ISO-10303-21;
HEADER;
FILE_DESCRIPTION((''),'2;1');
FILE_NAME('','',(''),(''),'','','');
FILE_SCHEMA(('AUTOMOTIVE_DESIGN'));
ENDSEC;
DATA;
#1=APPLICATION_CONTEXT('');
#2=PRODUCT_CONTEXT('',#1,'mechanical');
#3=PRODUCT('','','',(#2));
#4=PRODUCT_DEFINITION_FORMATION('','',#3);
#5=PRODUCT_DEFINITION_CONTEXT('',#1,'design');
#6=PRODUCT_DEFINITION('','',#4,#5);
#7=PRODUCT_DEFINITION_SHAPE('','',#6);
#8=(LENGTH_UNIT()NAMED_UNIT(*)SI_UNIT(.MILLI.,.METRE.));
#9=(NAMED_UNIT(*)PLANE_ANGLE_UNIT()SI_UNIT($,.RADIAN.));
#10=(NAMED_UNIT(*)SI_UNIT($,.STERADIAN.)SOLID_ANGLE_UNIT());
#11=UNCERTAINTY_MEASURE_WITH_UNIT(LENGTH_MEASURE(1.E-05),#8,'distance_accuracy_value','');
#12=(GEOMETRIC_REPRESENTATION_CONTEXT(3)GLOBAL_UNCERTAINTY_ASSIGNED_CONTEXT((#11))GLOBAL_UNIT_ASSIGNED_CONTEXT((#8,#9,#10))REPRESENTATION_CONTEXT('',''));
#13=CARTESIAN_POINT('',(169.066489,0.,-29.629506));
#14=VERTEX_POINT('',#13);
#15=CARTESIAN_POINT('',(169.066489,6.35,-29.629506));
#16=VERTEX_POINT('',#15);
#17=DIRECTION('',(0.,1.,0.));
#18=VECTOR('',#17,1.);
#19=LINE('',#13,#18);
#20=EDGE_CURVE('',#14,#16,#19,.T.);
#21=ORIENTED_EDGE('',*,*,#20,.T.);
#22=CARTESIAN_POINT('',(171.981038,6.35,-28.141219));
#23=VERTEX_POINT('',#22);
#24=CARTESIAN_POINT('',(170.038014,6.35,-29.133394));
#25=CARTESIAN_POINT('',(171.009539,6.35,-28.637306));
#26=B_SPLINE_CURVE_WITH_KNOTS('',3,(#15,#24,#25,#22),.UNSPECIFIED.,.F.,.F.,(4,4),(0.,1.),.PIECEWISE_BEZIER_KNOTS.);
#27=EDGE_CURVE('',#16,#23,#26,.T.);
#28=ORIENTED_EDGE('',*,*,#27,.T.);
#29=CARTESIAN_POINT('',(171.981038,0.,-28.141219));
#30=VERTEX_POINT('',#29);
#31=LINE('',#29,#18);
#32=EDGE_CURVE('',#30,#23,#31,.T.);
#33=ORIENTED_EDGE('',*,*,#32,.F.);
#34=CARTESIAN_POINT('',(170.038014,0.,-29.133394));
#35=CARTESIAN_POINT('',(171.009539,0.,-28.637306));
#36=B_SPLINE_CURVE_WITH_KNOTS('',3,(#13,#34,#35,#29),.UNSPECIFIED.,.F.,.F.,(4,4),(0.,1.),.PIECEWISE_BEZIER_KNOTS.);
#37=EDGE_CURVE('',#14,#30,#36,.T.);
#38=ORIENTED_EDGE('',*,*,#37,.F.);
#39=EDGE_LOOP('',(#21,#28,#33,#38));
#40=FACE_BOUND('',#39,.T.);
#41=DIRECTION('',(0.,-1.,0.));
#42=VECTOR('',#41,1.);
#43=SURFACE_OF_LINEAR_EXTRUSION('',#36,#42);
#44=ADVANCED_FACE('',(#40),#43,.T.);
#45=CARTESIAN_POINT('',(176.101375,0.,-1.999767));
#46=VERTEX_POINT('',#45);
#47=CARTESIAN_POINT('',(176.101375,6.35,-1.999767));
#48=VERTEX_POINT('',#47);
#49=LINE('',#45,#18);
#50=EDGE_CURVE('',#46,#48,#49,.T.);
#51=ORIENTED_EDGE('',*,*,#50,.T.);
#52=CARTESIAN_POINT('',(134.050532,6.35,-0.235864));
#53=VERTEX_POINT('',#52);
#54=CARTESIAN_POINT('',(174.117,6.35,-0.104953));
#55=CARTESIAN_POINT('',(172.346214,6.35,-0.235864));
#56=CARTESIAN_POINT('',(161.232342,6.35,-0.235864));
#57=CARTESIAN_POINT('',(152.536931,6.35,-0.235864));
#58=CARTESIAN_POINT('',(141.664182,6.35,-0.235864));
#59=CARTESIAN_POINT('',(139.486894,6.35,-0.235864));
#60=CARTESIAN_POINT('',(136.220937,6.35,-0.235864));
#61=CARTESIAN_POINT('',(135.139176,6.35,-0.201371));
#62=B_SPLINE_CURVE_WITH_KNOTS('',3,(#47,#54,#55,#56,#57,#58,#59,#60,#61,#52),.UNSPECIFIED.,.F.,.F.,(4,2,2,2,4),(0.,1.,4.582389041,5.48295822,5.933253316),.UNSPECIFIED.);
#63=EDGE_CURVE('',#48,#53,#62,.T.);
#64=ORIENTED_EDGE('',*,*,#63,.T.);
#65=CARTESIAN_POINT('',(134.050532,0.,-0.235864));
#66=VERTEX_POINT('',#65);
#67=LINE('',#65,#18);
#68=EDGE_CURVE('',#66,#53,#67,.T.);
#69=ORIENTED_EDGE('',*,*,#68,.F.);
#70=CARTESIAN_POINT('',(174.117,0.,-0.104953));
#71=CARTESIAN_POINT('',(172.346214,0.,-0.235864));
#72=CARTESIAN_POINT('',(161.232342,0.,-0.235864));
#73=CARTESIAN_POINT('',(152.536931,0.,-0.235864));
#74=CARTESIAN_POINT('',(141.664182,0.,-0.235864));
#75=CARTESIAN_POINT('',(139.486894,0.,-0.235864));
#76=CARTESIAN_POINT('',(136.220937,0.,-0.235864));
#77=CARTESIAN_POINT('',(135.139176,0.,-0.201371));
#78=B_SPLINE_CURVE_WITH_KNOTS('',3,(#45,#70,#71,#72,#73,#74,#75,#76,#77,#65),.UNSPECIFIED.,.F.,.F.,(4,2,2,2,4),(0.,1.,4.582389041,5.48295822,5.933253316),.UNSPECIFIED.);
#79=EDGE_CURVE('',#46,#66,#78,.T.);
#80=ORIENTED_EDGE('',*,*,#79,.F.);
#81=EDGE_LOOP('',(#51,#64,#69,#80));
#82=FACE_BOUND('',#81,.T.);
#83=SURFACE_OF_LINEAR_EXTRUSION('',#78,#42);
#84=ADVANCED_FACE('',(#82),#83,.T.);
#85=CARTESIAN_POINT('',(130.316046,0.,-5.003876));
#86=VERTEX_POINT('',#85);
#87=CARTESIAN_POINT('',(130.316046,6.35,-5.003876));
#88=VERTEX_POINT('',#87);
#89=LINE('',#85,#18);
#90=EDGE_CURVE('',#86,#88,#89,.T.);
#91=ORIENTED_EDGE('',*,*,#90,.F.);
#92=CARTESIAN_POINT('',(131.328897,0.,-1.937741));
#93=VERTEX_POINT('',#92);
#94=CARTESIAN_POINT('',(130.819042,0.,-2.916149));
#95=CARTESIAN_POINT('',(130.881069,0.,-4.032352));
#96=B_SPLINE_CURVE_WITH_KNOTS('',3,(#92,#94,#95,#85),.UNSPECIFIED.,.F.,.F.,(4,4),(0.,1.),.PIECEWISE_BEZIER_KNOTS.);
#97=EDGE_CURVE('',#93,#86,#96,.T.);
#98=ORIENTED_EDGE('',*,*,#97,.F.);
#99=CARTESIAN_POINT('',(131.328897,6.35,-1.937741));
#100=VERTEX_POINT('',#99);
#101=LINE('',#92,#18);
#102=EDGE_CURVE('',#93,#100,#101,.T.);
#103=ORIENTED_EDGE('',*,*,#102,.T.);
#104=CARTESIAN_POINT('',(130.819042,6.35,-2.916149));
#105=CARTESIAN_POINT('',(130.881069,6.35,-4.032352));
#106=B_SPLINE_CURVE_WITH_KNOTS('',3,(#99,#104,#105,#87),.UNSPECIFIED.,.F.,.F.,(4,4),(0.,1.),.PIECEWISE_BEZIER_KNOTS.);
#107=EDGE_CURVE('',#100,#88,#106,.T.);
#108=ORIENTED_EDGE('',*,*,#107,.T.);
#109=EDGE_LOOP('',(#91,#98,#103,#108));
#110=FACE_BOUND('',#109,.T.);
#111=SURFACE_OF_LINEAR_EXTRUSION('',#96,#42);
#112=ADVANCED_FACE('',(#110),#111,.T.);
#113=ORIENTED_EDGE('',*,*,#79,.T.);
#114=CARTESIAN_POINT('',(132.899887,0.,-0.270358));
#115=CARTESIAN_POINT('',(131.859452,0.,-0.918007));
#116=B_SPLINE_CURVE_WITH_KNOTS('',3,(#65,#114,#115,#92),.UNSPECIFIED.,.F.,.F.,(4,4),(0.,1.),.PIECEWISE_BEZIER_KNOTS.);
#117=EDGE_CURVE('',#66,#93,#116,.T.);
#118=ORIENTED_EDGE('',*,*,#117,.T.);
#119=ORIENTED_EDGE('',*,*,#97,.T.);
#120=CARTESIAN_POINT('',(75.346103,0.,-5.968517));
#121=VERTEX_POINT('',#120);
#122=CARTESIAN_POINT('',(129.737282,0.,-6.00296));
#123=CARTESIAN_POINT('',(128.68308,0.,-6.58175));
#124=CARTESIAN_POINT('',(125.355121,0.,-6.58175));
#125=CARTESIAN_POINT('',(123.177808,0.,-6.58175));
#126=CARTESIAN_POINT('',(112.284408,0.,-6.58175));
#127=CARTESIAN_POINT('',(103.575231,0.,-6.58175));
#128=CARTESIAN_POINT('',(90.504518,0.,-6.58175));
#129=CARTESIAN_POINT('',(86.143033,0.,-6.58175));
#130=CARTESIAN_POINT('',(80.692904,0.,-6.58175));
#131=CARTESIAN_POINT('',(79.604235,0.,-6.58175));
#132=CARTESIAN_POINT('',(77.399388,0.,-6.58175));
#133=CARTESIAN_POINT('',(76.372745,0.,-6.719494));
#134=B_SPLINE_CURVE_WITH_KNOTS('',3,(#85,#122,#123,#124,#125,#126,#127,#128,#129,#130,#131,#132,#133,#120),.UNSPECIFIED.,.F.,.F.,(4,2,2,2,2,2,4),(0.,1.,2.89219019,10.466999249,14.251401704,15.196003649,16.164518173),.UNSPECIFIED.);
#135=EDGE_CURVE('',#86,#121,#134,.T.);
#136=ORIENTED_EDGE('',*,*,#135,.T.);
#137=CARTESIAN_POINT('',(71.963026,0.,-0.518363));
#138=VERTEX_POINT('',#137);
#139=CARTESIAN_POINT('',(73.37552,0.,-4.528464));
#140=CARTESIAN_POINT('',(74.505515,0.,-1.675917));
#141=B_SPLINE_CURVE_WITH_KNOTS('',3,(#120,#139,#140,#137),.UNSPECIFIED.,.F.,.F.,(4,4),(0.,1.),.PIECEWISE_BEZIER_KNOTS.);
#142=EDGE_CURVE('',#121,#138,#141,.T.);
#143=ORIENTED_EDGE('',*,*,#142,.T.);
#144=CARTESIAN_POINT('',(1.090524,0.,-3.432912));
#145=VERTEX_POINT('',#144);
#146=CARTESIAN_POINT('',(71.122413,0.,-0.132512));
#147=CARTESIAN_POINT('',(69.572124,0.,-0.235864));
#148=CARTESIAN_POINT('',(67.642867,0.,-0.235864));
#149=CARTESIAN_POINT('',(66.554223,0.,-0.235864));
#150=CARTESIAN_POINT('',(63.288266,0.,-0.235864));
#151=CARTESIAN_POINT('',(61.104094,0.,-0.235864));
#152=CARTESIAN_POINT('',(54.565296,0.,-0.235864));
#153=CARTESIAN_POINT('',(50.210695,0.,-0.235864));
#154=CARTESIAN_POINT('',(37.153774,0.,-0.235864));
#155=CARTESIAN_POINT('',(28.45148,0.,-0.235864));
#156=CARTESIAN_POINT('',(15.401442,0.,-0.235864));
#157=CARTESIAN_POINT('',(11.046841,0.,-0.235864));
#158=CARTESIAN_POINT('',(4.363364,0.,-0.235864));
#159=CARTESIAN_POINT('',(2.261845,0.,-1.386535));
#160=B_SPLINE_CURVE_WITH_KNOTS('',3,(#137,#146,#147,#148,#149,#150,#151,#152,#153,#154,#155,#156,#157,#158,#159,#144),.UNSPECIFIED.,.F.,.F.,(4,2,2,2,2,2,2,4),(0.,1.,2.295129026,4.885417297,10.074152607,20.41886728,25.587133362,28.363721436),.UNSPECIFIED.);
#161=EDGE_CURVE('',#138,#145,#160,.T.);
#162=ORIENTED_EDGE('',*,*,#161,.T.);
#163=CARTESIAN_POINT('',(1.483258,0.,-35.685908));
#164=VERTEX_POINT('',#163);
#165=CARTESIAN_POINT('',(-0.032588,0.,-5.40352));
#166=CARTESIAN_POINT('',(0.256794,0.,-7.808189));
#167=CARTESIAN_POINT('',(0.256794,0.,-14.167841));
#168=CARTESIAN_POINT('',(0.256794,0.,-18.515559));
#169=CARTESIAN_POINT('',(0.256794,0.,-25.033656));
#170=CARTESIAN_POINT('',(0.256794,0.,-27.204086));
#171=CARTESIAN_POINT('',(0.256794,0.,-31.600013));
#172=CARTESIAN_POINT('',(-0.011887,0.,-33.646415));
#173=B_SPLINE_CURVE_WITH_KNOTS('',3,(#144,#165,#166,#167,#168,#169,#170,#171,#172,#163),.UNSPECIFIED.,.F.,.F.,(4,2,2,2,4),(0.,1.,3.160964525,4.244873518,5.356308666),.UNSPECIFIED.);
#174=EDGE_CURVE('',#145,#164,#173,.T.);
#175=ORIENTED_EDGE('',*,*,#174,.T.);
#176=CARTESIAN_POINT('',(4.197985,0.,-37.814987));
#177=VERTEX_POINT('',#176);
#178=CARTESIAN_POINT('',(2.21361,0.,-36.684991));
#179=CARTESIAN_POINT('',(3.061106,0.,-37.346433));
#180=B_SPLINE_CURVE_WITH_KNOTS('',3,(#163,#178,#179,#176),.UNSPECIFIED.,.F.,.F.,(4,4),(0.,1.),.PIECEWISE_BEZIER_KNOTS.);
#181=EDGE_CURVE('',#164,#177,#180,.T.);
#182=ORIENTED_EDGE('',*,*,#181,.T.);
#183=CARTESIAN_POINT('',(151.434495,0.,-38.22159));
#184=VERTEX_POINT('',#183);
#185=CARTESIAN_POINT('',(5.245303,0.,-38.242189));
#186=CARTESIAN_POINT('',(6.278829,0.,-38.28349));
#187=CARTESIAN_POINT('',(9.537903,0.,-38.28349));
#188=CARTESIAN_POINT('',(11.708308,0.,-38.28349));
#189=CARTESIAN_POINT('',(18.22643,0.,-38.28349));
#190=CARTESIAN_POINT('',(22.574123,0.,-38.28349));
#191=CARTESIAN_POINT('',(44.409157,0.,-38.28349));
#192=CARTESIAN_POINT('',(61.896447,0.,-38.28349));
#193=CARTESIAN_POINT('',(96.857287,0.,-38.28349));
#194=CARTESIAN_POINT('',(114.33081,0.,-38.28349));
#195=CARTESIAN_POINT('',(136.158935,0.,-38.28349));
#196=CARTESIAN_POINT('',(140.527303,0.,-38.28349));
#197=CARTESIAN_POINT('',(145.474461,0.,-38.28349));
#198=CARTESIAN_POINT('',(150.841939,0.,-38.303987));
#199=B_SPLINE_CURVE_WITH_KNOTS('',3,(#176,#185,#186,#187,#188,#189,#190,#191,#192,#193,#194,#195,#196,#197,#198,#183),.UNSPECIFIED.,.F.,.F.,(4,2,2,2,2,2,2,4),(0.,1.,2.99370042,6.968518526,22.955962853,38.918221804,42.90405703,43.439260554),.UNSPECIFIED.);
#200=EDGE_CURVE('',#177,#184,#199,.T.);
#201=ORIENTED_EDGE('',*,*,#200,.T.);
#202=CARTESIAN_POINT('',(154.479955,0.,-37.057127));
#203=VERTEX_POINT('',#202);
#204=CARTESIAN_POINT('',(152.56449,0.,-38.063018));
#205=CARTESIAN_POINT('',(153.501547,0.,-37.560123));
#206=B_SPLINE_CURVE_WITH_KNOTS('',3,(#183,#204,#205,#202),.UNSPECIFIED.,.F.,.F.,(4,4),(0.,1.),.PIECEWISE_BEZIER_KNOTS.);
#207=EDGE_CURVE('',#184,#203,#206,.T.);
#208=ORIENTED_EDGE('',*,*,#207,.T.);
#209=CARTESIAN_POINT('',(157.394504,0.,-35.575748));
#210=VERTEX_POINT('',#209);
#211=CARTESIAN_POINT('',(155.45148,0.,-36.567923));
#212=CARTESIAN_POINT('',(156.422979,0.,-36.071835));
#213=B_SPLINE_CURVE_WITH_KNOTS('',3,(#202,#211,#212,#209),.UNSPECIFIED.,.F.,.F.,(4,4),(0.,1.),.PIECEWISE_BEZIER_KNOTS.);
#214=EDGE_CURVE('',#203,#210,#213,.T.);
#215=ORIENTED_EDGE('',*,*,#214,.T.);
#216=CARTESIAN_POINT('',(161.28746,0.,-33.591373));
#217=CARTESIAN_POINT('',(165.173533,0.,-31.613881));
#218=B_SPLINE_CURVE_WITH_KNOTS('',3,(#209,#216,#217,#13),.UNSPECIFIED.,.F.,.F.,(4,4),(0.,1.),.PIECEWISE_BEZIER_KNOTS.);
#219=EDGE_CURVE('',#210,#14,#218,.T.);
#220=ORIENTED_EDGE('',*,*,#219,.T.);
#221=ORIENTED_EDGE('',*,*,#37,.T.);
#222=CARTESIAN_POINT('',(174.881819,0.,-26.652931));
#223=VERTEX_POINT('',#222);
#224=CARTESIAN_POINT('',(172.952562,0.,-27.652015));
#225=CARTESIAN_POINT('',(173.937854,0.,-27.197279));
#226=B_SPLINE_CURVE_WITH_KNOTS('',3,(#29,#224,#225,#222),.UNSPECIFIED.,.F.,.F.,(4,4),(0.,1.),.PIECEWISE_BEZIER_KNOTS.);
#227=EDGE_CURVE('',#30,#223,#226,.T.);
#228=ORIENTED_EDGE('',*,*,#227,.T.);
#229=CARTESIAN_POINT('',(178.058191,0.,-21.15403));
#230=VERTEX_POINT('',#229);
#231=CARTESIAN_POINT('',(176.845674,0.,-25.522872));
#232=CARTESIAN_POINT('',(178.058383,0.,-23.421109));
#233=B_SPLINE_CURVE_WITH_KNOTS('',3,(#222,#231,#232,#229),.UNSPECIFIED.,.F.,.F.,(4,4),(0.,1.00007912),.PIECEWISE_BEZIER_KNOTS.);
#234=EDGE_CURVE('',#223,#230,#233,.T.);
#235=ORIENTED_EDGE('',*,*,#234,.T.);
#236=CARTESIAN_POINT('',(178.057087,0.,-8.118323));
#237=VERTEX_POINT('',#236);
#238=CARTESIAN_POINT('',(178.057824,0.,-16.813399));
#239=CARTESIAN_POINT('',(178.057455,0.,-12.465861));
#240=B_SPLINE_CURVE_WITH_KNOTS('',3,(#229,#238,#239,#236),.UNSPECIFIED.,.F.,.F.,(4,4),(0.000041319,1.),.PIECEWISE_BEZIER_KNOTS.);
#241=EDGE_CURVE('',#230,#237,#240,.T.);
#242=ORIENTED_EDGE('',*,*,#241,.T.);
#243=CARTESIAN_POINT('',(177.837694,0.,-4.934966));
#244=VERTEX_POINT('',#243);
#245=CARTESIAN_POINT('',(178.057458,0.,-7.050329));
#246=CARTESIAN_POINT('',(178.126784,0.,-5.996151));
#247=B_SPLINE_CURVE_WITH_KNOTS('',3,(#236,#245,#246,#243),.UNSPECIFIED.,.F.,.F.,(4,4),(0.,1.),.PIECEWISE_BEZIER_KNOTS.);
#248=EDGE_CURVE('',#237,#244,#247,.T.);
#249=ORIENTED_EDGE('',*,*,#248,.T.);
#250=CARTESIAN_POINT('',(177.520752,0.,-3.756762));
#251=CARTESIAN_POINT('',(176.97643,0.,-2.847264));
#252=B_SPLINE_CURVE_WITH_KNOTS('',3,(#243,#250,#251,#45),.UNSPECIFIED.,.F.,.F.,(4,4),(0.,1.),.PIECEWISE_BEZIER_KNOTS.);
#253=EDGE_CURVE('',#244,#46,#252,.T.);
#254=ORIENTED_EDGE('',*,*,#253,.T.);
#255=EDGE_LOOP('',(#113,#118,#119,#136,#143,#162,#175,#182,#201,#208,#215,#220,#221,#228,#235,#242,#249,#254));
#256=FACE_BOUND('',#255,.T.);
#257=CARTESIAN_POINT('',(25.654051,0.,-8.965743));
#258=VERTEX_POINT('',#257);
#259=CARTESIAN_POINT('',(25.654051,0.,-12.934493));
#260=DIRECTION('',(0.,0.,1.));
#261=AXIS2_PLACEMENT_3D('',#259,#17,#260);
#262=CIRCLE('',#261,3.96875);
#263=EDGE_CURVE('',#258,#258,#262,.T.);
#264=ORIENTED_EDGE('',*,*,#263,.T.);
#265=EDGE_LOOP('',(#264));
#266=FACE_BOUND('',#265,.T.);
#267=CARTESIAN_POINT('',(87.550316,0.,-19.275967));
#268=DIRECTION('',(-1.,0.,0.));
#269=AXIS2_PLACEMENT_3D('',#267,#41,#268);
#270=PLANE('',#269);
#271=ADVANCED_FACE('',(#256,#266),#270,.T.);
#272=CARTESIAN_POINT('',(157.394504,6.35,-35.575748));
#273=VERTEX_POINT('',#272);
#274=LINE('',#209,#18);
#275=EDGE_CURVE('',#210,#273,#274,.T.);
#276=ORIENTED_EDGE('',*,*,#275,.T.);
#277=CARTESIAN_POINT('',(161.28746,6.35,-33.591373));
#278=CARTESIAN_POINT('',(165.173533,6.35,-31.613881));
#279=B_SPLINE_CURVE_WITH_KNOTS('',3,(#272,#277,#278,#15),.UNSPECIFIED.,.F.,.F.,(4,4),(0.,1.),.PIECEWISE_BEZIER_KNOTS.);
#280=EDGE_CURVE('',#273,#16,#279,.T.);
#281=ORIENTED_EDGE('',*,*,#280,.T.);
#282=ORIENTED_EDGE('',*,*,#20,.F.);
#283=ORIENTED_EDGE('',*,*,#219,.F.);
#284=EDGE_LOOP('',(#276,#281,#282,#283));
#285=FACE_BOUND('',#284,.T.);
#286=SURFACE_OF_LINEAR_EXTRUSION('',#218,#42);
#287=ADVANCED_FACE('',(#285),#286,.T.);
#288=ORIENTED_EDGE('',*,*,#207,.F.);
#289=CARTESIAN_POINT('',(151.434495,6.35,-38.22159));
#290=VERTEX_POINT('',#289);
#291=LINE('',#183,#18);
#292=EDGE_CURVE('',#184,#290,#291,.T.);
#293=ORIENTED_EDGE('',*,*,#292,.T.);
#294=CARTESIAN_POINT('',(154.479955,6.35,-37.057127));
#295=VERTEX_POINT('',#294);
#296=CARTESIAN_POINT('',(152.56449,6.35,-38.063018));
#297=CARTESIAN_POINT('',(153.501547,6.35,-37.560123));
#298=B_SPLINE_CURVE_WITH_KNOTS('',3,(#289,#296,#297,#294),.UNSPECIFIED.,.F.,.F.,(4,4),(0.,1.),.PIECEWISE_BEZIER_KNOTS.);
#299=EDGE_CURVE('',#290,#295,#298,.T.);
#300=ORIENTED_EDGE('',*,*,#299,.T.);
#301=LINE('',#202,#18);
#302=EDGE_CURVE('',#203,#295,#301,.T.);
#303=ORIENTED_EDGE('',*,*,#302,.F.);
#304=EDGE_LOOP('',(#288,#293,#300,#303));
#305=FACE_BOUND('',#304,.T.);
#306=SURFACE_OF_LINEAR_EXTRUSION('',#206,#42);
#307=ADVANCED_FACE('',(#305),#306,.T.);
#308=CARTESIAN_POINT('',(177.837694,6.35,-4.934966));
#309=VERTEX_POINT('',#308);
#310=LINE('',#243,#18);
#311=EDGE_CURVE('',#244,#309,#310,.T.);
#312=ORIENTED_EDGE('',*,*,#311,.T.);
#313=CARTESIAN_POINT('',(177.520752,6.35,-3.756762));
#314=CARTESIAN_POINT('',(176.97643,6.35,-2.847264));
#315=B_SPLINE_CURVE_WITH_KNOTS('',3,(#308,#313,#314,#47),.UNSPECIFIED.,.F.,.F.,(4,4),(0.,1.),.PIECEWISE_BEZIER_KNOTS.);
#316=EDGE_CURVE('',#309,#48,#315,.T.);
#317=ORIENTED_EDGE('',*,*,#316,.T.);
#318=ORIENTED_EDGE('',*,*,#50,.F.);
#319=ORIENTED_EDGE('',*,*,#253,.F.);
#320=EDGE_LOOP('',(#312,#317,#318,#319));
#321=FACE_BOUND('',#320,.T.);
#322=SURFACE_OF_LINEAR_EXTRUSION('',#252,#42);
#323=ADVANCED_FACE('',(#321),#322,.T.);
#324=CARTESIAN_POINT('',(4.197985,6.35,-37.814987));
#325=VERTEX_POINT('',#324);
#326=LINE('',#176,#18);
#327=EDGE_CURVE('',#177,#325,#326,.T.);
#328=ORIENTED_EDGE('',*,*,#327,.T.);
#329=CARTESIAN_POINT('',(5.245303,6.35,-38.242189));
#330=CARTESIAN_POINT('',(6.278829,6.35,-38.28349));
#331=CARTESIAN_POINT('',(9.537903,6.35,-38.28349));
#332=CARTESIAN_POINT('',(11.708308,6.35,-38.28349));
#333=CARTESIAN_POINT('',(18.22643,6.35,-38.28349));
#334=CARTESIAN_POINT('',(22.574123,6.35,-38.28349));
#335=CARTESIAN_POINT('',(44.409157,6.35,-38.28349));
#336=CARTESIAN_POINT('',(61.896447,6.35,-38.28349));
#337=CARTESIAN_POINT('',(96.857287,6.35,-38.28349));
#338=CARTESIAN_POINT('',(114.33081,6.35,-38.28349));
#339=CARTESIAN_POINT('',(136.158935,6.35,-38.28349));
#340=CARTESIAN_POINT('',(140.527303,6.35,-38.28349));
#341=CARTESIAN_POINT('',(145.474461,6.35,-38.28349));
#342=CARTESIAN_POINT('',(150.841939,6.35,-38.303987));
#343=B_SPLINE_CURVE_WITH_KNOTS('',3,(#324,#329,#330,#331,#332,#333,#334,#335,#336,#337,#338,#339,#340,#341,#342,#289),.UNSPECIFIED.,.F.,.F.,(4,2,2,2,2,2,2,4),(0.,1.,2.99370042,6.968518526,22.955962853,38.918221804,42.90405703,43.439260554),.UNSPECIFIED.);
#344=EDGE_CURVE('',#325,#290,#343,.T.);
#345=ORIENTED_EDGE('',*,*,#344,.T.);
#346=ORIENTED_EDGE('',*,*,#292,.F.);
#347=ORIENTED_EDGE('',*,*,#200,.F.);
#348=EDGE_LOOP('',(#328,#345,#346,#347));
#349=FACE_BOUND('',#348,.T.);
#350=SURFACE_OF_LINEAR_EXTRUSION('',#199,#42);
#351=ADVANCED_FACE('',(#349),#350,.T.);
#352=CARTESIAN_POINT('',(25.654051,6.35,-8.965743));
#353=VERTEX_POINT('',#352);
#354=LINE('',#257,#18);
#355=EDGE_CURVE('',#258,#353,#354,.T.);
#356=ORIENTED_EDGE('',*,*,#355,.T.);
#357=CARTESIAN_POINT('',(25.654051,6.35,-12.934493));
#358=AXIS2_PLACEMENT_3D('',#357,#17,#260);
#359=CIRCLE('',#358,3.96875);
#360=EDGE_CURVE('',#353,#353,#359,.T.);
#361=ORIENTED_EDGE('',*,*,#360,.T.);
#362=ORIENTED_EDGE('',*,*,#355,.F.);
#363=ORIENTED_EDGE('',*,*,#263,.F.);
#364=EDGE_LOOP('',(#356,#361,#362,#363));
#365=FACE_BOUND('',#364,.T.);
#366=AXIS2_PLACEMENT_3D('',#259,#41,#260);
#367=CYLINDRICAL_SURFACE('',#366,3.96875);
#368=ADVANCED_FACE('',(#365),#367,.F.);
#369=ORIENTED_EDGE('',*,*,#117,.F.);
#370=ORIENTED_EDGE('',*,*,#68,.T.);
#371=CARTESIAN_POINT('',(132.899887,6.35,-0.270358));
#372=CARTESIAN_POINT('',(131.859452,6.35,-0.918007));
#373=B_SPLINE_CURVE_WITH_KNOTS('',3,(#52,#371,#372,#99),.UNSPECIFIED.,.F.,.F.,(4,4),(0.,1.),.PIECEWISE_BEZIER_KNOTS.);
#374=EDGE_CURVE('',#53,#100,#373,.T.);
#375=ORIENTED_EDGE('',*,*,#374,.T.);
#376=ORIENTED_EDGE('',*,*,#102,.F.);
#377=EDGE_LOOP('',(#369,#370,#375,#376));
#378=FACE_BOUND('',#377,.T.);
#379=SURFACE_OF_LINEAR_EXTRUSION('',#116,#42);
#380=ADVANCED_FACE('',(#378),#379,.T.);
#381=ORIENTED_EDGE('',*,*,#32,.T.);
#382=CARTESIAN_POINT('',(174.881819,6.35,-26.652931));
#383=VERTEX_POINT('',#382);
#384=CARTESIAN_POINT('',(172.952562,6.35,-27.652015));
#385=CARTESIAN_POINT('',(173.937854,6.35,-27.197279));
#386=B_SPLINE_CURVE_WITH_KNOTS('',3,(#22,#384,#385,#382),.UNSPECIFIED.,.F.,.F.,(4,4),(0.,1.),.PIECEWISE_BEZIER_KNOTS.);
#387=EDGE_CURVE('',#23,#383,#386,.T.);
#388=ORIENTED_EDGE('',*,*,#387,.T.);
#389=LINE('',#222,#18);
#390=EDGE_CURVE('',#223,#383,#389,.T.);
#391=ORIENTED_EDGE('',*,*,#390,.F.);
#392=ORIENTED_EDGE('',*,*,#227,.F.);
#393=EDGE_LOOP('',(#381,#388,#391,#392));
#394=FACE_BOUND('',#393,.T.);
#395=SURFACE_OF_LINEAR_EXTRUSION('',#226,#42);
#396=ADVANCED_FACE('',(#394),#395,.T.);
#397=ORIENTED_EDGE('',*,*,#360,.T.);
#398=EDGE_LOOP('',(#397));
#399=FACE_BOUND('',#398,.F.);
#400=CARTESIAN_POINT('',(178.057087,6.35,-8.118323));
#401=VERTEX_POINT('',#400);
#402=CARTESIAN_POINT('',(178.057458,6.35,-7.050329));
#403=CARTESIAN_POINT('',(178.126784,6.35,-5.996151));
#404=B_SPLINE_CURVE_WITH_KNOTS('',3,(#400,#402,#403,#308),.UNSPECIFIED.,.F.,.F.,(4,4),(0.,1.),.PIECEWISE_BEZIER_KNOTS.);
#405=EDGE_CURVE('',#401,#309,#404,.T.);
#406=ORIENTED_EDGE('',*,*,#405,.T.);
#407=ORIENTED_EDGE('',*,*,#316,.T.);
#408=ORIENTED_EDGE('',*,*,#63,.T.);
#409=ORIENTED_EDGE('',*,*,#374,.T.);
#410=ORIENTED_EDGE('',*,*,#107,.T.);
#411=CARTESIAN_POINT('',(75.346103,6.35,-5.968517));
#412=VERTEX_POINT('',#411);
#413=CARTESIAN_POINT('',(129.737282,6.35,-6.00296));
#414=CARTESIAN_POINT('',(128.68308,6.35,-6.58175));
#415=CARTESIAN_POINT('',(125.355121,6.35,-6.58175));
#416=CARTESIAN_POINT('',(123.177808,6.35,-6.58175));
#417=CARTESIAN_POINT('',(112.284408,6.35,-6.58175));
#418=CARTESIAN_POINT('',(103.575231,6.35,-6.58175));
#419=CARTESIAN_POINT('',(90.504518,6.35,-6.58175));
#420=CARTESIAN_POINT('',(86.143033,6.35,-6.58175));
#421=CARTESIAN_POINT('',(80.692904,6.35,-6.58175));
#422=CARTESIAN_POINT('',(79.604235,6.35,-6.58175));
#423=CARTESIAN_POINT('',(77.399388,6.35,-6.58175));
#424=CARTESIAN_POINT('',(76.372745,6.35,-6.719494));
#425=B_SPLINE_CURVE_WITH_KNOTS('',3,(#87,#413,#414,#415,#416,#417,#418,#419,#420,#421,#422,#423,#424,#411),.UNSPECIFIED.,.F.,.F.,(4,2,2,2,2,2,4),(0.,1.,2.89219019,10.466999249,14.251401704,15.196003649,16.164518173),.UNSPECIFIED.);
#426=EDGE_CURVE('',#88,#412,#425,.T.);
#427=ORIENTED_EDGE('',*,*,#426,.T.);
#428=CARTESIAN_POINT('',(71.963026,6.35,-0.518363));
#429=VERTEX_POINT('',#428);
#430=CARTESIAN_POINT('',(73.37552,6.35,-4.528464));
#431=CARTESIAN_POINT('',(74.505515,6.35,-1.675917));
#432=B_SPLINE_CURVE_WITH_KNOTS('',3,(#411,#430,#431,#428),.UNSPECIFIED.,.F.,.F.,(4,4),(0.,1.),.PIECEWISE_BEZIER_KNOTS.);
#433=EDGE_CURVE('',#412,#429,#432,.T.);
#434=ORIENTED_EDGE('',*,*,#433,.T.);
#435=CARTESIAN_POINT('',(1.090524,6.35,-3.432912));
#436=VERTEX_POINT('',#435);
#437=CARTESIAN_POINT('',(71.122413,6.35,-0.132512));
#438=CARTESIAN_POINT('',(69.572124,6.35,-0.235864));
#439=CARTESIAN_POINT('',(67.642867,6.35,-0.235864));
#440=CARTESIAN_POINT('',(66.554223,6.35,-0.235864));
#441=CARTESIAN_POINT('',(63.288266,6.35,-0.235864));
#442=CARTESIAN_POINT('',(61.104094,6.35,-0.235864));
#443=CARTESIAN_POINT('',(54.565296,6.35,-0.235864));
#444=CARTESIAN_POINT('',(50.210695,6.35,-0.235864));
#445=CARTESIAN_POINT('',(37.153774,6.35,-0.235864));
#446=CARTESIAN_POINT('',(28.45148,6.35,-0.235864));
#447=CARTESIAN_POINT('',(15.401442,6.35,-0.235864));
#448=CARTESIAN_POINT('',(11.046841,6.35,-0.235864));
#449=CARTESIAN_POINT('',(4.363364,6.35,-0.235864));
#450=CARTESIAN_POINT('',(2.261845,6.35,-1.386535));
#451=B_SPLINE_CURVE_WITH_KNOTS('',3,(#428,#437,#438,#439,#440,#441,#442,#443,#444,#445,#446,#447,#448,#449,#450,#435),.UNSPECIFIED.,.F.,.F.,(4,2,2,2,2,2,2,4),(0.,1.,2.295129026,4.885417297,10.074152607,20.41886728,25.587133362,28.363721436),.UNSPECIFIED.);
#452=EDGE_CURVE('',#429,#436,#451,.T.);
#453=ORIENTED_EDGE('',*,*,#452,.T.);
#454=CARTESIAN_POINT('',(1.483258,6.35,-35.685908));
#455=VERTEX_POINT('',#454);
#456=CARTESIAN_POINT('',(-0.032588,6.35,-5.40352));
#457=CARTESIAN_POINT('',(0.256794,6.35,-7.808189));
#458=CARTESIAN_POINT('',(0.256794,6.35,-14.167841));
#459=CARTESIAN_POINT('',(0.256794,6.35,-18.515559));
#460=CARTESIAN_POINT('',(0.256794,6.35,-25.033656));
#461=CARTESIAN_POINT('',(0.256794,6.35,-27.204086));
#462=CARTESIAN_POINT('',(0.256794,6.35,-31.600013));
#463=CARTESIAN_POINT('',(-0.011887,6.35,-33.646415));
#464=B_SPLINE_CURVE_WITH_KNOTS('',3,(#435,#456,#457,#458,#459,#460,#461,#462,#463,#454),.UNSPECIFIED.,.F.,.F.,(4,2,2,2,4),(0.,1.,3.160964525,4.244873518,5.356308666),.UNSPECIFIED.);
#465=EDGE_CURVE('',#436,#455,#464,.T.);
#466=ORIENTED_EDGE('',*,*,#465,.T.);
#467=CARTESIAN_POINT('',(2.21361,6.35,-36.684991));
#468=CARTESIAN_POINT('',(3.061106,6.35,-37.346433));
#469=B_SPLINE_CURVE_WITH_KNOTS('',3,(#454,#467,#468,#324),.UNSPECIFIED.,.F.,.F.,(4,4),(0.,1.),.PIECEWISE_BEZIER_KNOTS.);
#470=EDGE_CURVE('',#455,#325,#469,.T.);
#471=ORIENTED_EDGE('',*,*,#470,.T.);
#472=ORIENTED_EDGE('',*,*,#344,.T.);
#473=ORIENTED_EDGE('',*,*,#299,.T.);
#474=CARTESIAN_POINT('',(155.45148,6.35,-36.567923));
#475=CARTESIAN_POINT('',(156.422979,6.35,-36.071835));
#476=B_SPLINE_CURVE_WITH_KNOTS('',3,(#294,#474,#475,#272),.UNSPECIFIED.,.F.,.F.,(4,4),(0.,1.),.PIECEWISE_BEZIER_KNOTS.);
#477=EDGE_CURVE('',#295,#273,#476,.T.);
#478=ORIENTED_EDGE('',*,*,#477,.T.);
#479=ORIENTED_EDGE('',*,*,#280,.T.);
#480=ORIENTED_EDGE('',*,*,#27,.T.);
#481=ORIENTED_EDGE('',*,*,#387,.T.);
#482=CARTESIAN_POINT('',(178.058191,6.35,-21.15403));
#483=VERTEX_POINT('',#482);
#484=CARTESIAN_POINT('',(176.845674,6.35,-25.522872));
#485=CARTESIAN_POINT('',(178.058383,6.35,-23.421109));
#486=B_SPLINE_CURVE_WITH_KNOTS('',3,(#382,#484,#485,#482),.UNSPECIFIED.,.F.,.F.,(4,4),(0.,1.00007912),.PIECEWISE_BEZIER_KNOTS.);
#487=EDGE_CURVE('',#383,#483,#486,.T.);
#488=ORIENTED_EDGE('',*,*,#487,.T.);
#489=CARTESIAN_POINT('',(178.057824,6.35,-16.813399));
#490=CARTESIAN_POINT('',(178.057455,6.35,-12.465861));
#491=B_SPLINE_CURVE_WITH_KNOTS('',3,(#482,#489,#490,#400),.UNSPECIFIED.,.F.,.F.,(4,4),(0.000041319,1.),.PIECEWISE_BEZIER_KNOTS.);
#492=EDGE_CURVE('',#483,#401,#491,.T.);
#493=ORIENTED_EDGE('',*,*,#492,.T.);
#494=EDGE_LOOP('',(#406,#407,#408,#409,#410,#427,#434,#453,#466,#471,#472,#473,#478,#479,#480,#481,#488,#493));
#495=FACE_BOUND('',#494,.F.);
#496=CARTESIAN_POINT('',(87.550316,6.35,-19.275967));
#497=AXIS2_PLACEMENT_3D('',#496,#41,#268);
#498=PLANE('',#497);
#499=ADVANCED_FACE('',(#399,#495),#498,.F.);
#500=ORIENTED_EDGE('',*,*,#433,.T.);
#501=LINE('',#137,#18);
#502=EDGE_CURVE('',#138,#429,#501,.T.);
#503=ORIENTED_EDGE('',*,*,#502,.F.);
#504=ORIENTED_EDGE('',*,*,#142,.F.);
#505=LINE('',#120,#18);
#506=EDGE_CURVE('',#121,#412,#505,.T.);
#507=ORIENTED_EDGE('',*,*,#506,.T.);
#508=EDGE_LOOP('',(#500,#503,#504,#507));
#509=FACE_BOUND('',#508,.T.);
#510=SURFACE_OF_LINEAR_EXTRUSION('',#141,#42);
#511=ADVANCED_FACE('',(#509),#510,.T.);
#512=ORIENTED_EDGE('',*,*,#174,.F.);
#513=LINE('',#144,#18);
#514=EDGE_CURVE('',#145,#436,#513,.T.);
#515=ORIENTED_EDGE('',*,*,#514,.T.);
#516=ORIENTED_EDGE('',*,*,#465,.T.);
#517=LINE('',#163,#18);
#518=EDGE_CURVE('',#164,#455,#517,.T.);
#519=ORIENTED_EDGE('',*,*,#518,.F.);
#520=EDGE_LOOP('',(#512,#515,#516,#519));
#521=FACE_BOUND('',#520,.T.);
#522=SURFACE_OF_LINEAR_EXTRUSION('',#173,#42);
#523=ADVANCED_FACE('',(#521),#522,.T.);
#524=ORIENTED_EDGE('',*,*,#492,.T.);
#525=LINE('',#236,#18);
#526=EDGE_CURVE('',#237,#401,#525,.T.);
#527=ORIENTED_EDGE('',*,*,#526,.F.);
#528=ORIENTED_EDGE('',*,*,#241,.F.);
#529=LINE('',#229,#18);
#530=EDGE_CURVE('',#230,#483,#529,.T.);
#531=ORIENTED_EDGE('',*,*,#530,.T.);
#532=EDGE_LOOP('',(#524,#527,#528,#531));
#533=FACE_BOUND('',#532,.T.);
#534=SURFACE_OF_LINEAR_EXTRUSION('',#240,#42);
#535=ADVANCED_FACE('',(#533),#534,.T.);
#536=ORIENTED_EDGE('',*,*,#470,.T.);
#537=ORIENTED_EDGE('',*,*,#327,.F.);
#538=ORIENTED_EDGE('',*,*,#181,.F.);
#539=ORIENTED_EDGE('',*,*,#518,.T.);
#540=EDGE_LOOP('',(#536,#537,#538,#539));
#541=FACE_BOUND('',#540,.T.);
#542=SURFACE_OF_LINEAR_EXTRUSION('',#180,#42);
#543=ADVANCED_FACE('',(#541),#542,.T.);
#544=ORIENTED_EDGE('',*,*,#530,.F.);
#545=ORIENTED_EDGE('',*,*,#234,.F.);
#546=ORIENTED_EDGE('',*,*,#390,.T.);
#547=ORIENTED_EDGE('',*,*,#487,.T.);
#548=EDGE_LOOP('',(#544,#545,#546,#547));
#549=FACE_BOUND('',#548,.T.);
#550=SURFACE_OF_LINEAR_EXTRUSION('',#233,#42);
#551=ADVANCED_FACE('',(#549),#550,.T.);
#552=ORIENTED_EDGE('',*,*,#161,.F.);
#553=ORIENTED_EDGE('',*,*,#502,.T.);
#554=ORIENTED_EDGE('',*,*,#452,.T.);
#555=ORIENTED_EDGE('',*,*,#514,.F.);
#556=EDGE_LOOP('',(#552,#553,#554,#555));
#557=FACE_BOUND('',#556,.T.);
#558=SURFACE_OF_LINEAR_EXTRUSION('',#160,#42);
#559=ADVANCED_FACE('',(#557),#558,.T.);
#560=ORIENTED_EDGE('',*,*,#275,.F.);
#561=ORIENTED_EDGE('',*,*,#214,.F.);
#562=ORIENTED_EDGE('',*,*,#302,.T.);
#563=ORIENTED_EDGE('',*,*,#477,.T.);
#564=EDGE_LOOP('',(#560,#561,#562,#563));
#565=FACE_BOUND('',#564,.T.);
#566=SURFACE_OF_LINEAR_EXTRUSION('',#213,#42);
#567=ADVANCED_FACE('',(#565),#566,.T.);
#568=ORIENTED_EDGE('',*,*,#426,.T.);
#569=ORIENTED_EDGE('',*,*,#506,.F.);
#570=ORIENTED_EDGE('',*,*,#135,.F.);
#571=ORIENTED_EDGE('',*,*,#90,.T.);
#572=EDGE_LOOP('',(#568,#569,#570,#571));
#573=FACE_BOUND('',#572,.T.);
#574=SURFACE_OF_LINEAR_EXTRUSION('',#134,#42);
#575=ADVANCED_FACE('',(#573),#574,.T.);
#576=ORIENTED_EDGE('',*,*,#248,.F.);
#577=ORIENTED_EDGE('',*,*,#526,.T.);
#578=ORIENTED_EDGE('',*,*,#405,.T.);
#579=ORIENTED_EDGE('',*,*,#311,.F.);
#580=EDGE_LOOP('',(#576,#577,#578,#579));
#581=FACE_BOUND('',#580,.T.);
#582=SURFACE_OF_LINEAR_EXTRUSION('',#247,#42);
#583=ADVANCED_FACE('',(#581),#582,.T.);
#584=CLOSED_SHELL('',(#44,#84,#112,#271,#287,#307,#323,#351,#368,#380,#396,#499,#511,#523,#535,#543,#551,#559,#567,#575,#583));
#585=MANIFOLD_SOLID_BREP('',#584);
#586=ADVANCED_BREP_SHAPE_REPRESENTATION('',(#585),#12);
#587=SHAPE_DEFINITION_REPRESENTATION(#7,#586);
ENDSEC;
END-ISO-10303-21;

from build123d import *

# Parameters (mm, degrees)
SKETCH4_R           = 3.96875
BOSS_EXTRUDE1_DEPTH = 6.35


with BuildPart() as part:
    # Sketch4 → Boss-Extrude1 (new body)
    with BuildSketch(Plane(origin=(0, 0, 0), x_dir=(1, 0, 0), z_dir=(0, 1, 0))):
        with BuildLine():
            add(Edge.make_bspline(
                [(157.3945036, 35.575748), (161.28746, 33.591373), (165.173533, 31.6138814), (169.0664894, 29.6295064)],
                knots=[0, 0, 0, 0, 1, 1, 1, 1], degree=3))
            add(Edge.make_bspline(
                [(169.0664894, 29.6295064), (170.038014, 29.1333936), (171.0095386, 28.6373062), (171.9810378, 28.1412188)],
                knots=[0, 0, 0, 0, 1, 1, 1, 1], degree=3))
            add(Edge.make_bspline(
                [(171.9810378, 28.1412188), (172.9525624, 27.6520148), (173.9378538, 27.1972786), (174.8818194, 26.6529312)],
                knots=[0, 0, 0, 0, 1, 1, 1, 1], degree=3))
            add(Edge.make_bspline(
                [(174.8818194, 26.6529312), (176.845674168, 25.522871997), (178.058382888, 23.42110905), (178.058190977, 21.154029732)],
                knots=[0, 0, 0, 0, 1.00007912, 1.00007912, 1.00007912, 1.00007912], degree=3))
            add(Edge.make_bspline(
                [(178.058190977, 21.154029732), (178.057823515, 16.813399333), (178.05745549, 12.46586099), (178.057087466, 8.118322647)],
                knots=[4.1319e-05, 4.1319e-05, 4.1319e-05, 4.1319e-05, 1, 1, 1, 1], degree=3))
            add(Edge.make_bspline(
                [(178.057087466, 8.118322647), (178.057457698, 7.050328911), (178.126784145, 5.99615128), (177.8376936, 4.934966)],
                knots=[0, 0, 0, 0, 1, 1, 1, 1], degree=3))
            add(Edge.make_bspline(
                [(177.8376936, 4.934966), (177.5207524, 3.7567616), (176.9764304, 2.8472638), (176.101375, 1.9997674)],
                knots=[0, 0, 0, 0, 1, 1, 1, 1], degree=3))
            add(Edge.make_bspline(
                [(176.101375, 1.9997674), (174.117, 0.1049528), (172.3462136, 0.2358644), (169.9208692, 0.2358644)],
                knots=[0, 0, 0, 0, 1, 1, 1, 1], degree=3))
            add(Edge.make_bspline(
                [(169.9208692, 0.2358644), (161.232342, 0.2358644), (152.5369314, 0.2358644), (143.8483788, 0.2358644)],
                knots=[0, 0, 0, 0, 1, 1, 1, 1], degree=3))
            add(Edge.make_bspline(
                [(143.8483788, 0.2358644), (141.664182, 0.2358644), (139.486894, 0.2358644), (137.309606, 0.2358644)],
                knots=[0, 0, 0, 0, 1, 1, 1, 1], degree=3))
            add(Edge.make_bspline(
                [(137.309606, 0.2358644), (136.2209366, 0.2358644), (135.139176, 0.2013712), (134.050532, 0.2358644)],
                knots=[0, 0, 0, 0, 1, 1, 1, 1], degree=3))
            add(Edge.make_bspline(
                [(134.050532, 0.2358644), (132.8998866, 0.2703576), (131.8594518, 0.9180068), (131.3288966, 1.9377406)],
                knots=[0, 0, 0, 0, 1, 1, 1, 1], degree=3))
            add(Edge.make_bspline(
                [(131.3288966, 1.9377406), (130.8190424, 2.9161486), (130.8810692, 4.0323516), (130.3160462, 5.0038762)],
                knots=[0, 0, 0, 0, 1, 1, 1, 1], degree=3))
            add(Edge.make_bspline(
                [(130.3160462, 5.0038762), (129.7372818, 6.0029598), (128.6830802, 6.5817496), (127.5324094, 6.5817496)],
                knots=[0, 0, 0, 0, 1, 1, 1, 1], degree=3))
            add(Edge.make_bspline(
                [(127.5324094, 6.5817496), (125.3551214, 6.5817496), (123.177808, 6.5817496), (121.00052, 6.5817496)],
                knots=[0, 0, 0, 0, 1, 1, 1, 1], degree=3))
            add(Edge.make_bspline(
                [(121.00052, 6.5817496), (112.2844084, 6.5817496), (103.575231, 6.5817496), (94.8591194, 6.5817496)],
                knots=[0, 0, 0, 0, 1, 1, 1, 1], degree=3))
            add(Edge.make_bspline(
                [(94.8591194, 6.5817496), (90.504518, 6.5817496), (86.1430332, 6.5817496), (81.7815484, 6.5817496)],
                knots=[0, 0, 0, 0, 1, 1, 1, 1], degree=3))
            add(Edge.make_bspline(
                [(81.7815484, 6.5817496), (80.6929044, 6.5817496), (79.604235, 6.5817496), (78.515591, 6.5817496)],
                knots=[0, 0, 0, 0, 1, 1, 1, 1], degree=3))
            add(Edge.make_bspline(
                [(78.515591, 6.5817496), (77.399388, 6.5817496), (76.3727454, 6.7194938), (75.3461028, 5.9685174)],
                knots=[0, 0, 0, 0, 1, 1, 1, 1], degree=3))
            add(Edge.make_bspline(
                [(75.3461028, 5.9685174), (73.37552, 4.5284644), (74.5055152, 1.6759174), (71.963026, 0.5183632)],
                knots=[0, 0, 0, 0, 1, 1, 1, 1], degree=3))
            add(Edge.make_bspline(
                [(71.963026, 0.5183632), (71.122413, 0.1325118), (69.572124, 0.2358644), (68.7315364, 0.2358644)],
                knots=[0, 0, 0, 0, 1, 1, 1, 1], degree=3))
            add(Edge.make_bspline(
                [(68.7315364, 0.2358644), (67.642867, 0.2358644), (66.554223, 0.2358644), (65.465579, 0.2358644)],
                knots=[0, 0, 0, 0, 1, 1, 1, 1], degree=3))
            add(Edge.make_bspline(
                [(65.465579, 0.2358644), (63.2882656, 0.2358644), (61.1040942, 0.2358644), (58.9267808, 0.2358644)],
                knots=[0, 0, 0, 0, 1, 1, 1, 1], degree=3))
            add(Edge.make_bspline(
                [(58.9267808, 0.2358644), (54.565296, 0.2358644), (50.2106946, 0.2358644), (45.8492098, 0.2358644)],
                knots=[0, 0, 0, 0, 1, 1, 1, 1], degree=3))
            add(Edge.make_bspline(
                [(45.8492098, 0.2358644), (37.1537738, 0.2358644), (28.4514798, 0.2358644), (19.7491604, 0.2358644)],
                knots=[0, 0, 0, 0, 1, 1, 1, 1], degree=3))
            add(Edge.make_bspline(
                [(19.7491604, 0.2358644), (15.4014424, 0.2358644), (11.046841, 0.2358644), (6.699123, 0.2358644)],
                knots=[0, 0, 0, 0, 1, 1, 1, 1], degree=3))
            add(Edge.make_bspline(
                [(6.699123, 0.2358644), (4.3633644, 0.2358644), (2.2618446, 1.3865352), (1.0905236, 3.4329116)],
                knots=[0, 0, 0, 0, 1, 1, 1, 1], degree=3))
            add(Edge.make_bspline(
                [(1.0905236, 3.4329116), (-0.0325882, 5.4035198), (0.256794, 7.8081886), (0.256794, 9.8201226)],
                knots=[0, 0, 0, 0, 1, 1, 1, 1], degree=3))
            add(Edge.make_bspline(
                [(0.256794, 9.8201226), (0.256794, 14.1678406), (0.256794, 18.5155586), (0.256794, 22.8563678)],
                knots=[0, 0, 0, 0, 1, 1, 1, 1], degree=3))
            add(Edge.make_bspline(
                [(0.256794, 22.8563678), (0.256794, 25.0336558), (0.256794, 27.2040858), (0.256794, 29.3744904)],
                knots=[0, 0, 0, 0, 1, 1, 1, 1], degree=3))
            add(Edge.make_bspline(
                [(0.256794, 29.3744904), (0.256794, 31.600013), (-0.0118872, 33.6464148), (1.4832584, 35.6859078)],
                knots=[0, 0, 0, 0, 1, 1, 1, 1], degree=3))
            add(Edge.make_bspline(
                [(1.4832584, 35.6859078), (2.21361, 36.6849914), (3.0611064, 37.3464328), (4.197985, 37.8149866)],
                knots=[0, 0, 0, 0, 1, 1, 1, 1], degree=3))
            add(Edge.make_bspline(
                [(4.197985, 37.8149866), (5.2453032, 38.2421892), (6.2788292, 38.2834896), (7.3674732, 38.2834896)],
                knots=[0, 0, 0, 0, 1, 1, 1, 1], degree=3))
            add(Edge.make_bspline(
                [(7.3674732, 38.2834896), (9.5379032, 38.2834896), (11.7083078, 38.2834896), (13.8855958, 38.2834896)],
                knots=[0, 0, 0, 0, 1, 1, 1, 1], degree=3))
            add(Edge.make_bspline(
                [(13.8855958, 38.2834896), (18.2264304, 38.2834896), (22.574123, 38.2834896), (26.921841, 38.2834896)],
                knots=[0, 0, 0, 0, 1, 1, 1, 1], degree=3))
            add(Edge.make_bspline(
                [(26.921841, 38.2834896), (44.4091568, 38.2834896), (61.8964472, 38.2834896), (79.3906464, 38.2834896)],
                knots=[0, 0, 0, 0, 1, 1, 1, 1], degree=3))
            add(Edge.make_bspline(
                [(79.3906464, 38.2834896), (96.8572866, 38.2834896), (114.3308102, 38.2834896), (131.7974504, 38.2834896)],
                knots=[0, 0, 0, 0, 1, 1, 1, 1], degree=3))
            add(Edge.make_bspline(
                [(131.7974504, 38.2834896), (136.1589352, 38.2834896), (140.5273034, 38.2834896), (144.8888136, 38.2834896)],
                knots=[0, 0, 0, 0, 1, 1, 1, 1], degree=3))
            add(Edge.make_bspline(
                [(144.8888136, 38.2834896), (145.4744614, 38.2834896), (150.8419386, 38.3039874), (151.4344952, 38.2215898)],
                knots=[0, 0, 0, 0, 1, 1, 1, 1], degree=3))
            add(Edge.make_bspline(
                [(151.4344952, 38.2215898), (152.5644904, 38.0630176), (153.5015472, 37.560123), (154.4799552, 37.0571268)],
                knots=[0, 0, 0, 0, 1, 1, 1, 1], degree=3))
            add(Edge.make_bspline(
                [(154.4799552, 37.0571268), (155.4514798, 36.5679228), (156.422979, 36.0718354), (157.3945036, 35.575748)],
                knots=[0, 0, 0, 0, 1, 1, 1, 1], degree=3))
        make_face()
        with Locations(Location((25.6540508, 12.9344928, 0), (0, 0, 270))):
            Circle(SKETCH4_R, mode=Mode.SUBTRACT)
    extrude(amount=BOSS_EXTRUDE1_DEPTH)


solid = part.part
